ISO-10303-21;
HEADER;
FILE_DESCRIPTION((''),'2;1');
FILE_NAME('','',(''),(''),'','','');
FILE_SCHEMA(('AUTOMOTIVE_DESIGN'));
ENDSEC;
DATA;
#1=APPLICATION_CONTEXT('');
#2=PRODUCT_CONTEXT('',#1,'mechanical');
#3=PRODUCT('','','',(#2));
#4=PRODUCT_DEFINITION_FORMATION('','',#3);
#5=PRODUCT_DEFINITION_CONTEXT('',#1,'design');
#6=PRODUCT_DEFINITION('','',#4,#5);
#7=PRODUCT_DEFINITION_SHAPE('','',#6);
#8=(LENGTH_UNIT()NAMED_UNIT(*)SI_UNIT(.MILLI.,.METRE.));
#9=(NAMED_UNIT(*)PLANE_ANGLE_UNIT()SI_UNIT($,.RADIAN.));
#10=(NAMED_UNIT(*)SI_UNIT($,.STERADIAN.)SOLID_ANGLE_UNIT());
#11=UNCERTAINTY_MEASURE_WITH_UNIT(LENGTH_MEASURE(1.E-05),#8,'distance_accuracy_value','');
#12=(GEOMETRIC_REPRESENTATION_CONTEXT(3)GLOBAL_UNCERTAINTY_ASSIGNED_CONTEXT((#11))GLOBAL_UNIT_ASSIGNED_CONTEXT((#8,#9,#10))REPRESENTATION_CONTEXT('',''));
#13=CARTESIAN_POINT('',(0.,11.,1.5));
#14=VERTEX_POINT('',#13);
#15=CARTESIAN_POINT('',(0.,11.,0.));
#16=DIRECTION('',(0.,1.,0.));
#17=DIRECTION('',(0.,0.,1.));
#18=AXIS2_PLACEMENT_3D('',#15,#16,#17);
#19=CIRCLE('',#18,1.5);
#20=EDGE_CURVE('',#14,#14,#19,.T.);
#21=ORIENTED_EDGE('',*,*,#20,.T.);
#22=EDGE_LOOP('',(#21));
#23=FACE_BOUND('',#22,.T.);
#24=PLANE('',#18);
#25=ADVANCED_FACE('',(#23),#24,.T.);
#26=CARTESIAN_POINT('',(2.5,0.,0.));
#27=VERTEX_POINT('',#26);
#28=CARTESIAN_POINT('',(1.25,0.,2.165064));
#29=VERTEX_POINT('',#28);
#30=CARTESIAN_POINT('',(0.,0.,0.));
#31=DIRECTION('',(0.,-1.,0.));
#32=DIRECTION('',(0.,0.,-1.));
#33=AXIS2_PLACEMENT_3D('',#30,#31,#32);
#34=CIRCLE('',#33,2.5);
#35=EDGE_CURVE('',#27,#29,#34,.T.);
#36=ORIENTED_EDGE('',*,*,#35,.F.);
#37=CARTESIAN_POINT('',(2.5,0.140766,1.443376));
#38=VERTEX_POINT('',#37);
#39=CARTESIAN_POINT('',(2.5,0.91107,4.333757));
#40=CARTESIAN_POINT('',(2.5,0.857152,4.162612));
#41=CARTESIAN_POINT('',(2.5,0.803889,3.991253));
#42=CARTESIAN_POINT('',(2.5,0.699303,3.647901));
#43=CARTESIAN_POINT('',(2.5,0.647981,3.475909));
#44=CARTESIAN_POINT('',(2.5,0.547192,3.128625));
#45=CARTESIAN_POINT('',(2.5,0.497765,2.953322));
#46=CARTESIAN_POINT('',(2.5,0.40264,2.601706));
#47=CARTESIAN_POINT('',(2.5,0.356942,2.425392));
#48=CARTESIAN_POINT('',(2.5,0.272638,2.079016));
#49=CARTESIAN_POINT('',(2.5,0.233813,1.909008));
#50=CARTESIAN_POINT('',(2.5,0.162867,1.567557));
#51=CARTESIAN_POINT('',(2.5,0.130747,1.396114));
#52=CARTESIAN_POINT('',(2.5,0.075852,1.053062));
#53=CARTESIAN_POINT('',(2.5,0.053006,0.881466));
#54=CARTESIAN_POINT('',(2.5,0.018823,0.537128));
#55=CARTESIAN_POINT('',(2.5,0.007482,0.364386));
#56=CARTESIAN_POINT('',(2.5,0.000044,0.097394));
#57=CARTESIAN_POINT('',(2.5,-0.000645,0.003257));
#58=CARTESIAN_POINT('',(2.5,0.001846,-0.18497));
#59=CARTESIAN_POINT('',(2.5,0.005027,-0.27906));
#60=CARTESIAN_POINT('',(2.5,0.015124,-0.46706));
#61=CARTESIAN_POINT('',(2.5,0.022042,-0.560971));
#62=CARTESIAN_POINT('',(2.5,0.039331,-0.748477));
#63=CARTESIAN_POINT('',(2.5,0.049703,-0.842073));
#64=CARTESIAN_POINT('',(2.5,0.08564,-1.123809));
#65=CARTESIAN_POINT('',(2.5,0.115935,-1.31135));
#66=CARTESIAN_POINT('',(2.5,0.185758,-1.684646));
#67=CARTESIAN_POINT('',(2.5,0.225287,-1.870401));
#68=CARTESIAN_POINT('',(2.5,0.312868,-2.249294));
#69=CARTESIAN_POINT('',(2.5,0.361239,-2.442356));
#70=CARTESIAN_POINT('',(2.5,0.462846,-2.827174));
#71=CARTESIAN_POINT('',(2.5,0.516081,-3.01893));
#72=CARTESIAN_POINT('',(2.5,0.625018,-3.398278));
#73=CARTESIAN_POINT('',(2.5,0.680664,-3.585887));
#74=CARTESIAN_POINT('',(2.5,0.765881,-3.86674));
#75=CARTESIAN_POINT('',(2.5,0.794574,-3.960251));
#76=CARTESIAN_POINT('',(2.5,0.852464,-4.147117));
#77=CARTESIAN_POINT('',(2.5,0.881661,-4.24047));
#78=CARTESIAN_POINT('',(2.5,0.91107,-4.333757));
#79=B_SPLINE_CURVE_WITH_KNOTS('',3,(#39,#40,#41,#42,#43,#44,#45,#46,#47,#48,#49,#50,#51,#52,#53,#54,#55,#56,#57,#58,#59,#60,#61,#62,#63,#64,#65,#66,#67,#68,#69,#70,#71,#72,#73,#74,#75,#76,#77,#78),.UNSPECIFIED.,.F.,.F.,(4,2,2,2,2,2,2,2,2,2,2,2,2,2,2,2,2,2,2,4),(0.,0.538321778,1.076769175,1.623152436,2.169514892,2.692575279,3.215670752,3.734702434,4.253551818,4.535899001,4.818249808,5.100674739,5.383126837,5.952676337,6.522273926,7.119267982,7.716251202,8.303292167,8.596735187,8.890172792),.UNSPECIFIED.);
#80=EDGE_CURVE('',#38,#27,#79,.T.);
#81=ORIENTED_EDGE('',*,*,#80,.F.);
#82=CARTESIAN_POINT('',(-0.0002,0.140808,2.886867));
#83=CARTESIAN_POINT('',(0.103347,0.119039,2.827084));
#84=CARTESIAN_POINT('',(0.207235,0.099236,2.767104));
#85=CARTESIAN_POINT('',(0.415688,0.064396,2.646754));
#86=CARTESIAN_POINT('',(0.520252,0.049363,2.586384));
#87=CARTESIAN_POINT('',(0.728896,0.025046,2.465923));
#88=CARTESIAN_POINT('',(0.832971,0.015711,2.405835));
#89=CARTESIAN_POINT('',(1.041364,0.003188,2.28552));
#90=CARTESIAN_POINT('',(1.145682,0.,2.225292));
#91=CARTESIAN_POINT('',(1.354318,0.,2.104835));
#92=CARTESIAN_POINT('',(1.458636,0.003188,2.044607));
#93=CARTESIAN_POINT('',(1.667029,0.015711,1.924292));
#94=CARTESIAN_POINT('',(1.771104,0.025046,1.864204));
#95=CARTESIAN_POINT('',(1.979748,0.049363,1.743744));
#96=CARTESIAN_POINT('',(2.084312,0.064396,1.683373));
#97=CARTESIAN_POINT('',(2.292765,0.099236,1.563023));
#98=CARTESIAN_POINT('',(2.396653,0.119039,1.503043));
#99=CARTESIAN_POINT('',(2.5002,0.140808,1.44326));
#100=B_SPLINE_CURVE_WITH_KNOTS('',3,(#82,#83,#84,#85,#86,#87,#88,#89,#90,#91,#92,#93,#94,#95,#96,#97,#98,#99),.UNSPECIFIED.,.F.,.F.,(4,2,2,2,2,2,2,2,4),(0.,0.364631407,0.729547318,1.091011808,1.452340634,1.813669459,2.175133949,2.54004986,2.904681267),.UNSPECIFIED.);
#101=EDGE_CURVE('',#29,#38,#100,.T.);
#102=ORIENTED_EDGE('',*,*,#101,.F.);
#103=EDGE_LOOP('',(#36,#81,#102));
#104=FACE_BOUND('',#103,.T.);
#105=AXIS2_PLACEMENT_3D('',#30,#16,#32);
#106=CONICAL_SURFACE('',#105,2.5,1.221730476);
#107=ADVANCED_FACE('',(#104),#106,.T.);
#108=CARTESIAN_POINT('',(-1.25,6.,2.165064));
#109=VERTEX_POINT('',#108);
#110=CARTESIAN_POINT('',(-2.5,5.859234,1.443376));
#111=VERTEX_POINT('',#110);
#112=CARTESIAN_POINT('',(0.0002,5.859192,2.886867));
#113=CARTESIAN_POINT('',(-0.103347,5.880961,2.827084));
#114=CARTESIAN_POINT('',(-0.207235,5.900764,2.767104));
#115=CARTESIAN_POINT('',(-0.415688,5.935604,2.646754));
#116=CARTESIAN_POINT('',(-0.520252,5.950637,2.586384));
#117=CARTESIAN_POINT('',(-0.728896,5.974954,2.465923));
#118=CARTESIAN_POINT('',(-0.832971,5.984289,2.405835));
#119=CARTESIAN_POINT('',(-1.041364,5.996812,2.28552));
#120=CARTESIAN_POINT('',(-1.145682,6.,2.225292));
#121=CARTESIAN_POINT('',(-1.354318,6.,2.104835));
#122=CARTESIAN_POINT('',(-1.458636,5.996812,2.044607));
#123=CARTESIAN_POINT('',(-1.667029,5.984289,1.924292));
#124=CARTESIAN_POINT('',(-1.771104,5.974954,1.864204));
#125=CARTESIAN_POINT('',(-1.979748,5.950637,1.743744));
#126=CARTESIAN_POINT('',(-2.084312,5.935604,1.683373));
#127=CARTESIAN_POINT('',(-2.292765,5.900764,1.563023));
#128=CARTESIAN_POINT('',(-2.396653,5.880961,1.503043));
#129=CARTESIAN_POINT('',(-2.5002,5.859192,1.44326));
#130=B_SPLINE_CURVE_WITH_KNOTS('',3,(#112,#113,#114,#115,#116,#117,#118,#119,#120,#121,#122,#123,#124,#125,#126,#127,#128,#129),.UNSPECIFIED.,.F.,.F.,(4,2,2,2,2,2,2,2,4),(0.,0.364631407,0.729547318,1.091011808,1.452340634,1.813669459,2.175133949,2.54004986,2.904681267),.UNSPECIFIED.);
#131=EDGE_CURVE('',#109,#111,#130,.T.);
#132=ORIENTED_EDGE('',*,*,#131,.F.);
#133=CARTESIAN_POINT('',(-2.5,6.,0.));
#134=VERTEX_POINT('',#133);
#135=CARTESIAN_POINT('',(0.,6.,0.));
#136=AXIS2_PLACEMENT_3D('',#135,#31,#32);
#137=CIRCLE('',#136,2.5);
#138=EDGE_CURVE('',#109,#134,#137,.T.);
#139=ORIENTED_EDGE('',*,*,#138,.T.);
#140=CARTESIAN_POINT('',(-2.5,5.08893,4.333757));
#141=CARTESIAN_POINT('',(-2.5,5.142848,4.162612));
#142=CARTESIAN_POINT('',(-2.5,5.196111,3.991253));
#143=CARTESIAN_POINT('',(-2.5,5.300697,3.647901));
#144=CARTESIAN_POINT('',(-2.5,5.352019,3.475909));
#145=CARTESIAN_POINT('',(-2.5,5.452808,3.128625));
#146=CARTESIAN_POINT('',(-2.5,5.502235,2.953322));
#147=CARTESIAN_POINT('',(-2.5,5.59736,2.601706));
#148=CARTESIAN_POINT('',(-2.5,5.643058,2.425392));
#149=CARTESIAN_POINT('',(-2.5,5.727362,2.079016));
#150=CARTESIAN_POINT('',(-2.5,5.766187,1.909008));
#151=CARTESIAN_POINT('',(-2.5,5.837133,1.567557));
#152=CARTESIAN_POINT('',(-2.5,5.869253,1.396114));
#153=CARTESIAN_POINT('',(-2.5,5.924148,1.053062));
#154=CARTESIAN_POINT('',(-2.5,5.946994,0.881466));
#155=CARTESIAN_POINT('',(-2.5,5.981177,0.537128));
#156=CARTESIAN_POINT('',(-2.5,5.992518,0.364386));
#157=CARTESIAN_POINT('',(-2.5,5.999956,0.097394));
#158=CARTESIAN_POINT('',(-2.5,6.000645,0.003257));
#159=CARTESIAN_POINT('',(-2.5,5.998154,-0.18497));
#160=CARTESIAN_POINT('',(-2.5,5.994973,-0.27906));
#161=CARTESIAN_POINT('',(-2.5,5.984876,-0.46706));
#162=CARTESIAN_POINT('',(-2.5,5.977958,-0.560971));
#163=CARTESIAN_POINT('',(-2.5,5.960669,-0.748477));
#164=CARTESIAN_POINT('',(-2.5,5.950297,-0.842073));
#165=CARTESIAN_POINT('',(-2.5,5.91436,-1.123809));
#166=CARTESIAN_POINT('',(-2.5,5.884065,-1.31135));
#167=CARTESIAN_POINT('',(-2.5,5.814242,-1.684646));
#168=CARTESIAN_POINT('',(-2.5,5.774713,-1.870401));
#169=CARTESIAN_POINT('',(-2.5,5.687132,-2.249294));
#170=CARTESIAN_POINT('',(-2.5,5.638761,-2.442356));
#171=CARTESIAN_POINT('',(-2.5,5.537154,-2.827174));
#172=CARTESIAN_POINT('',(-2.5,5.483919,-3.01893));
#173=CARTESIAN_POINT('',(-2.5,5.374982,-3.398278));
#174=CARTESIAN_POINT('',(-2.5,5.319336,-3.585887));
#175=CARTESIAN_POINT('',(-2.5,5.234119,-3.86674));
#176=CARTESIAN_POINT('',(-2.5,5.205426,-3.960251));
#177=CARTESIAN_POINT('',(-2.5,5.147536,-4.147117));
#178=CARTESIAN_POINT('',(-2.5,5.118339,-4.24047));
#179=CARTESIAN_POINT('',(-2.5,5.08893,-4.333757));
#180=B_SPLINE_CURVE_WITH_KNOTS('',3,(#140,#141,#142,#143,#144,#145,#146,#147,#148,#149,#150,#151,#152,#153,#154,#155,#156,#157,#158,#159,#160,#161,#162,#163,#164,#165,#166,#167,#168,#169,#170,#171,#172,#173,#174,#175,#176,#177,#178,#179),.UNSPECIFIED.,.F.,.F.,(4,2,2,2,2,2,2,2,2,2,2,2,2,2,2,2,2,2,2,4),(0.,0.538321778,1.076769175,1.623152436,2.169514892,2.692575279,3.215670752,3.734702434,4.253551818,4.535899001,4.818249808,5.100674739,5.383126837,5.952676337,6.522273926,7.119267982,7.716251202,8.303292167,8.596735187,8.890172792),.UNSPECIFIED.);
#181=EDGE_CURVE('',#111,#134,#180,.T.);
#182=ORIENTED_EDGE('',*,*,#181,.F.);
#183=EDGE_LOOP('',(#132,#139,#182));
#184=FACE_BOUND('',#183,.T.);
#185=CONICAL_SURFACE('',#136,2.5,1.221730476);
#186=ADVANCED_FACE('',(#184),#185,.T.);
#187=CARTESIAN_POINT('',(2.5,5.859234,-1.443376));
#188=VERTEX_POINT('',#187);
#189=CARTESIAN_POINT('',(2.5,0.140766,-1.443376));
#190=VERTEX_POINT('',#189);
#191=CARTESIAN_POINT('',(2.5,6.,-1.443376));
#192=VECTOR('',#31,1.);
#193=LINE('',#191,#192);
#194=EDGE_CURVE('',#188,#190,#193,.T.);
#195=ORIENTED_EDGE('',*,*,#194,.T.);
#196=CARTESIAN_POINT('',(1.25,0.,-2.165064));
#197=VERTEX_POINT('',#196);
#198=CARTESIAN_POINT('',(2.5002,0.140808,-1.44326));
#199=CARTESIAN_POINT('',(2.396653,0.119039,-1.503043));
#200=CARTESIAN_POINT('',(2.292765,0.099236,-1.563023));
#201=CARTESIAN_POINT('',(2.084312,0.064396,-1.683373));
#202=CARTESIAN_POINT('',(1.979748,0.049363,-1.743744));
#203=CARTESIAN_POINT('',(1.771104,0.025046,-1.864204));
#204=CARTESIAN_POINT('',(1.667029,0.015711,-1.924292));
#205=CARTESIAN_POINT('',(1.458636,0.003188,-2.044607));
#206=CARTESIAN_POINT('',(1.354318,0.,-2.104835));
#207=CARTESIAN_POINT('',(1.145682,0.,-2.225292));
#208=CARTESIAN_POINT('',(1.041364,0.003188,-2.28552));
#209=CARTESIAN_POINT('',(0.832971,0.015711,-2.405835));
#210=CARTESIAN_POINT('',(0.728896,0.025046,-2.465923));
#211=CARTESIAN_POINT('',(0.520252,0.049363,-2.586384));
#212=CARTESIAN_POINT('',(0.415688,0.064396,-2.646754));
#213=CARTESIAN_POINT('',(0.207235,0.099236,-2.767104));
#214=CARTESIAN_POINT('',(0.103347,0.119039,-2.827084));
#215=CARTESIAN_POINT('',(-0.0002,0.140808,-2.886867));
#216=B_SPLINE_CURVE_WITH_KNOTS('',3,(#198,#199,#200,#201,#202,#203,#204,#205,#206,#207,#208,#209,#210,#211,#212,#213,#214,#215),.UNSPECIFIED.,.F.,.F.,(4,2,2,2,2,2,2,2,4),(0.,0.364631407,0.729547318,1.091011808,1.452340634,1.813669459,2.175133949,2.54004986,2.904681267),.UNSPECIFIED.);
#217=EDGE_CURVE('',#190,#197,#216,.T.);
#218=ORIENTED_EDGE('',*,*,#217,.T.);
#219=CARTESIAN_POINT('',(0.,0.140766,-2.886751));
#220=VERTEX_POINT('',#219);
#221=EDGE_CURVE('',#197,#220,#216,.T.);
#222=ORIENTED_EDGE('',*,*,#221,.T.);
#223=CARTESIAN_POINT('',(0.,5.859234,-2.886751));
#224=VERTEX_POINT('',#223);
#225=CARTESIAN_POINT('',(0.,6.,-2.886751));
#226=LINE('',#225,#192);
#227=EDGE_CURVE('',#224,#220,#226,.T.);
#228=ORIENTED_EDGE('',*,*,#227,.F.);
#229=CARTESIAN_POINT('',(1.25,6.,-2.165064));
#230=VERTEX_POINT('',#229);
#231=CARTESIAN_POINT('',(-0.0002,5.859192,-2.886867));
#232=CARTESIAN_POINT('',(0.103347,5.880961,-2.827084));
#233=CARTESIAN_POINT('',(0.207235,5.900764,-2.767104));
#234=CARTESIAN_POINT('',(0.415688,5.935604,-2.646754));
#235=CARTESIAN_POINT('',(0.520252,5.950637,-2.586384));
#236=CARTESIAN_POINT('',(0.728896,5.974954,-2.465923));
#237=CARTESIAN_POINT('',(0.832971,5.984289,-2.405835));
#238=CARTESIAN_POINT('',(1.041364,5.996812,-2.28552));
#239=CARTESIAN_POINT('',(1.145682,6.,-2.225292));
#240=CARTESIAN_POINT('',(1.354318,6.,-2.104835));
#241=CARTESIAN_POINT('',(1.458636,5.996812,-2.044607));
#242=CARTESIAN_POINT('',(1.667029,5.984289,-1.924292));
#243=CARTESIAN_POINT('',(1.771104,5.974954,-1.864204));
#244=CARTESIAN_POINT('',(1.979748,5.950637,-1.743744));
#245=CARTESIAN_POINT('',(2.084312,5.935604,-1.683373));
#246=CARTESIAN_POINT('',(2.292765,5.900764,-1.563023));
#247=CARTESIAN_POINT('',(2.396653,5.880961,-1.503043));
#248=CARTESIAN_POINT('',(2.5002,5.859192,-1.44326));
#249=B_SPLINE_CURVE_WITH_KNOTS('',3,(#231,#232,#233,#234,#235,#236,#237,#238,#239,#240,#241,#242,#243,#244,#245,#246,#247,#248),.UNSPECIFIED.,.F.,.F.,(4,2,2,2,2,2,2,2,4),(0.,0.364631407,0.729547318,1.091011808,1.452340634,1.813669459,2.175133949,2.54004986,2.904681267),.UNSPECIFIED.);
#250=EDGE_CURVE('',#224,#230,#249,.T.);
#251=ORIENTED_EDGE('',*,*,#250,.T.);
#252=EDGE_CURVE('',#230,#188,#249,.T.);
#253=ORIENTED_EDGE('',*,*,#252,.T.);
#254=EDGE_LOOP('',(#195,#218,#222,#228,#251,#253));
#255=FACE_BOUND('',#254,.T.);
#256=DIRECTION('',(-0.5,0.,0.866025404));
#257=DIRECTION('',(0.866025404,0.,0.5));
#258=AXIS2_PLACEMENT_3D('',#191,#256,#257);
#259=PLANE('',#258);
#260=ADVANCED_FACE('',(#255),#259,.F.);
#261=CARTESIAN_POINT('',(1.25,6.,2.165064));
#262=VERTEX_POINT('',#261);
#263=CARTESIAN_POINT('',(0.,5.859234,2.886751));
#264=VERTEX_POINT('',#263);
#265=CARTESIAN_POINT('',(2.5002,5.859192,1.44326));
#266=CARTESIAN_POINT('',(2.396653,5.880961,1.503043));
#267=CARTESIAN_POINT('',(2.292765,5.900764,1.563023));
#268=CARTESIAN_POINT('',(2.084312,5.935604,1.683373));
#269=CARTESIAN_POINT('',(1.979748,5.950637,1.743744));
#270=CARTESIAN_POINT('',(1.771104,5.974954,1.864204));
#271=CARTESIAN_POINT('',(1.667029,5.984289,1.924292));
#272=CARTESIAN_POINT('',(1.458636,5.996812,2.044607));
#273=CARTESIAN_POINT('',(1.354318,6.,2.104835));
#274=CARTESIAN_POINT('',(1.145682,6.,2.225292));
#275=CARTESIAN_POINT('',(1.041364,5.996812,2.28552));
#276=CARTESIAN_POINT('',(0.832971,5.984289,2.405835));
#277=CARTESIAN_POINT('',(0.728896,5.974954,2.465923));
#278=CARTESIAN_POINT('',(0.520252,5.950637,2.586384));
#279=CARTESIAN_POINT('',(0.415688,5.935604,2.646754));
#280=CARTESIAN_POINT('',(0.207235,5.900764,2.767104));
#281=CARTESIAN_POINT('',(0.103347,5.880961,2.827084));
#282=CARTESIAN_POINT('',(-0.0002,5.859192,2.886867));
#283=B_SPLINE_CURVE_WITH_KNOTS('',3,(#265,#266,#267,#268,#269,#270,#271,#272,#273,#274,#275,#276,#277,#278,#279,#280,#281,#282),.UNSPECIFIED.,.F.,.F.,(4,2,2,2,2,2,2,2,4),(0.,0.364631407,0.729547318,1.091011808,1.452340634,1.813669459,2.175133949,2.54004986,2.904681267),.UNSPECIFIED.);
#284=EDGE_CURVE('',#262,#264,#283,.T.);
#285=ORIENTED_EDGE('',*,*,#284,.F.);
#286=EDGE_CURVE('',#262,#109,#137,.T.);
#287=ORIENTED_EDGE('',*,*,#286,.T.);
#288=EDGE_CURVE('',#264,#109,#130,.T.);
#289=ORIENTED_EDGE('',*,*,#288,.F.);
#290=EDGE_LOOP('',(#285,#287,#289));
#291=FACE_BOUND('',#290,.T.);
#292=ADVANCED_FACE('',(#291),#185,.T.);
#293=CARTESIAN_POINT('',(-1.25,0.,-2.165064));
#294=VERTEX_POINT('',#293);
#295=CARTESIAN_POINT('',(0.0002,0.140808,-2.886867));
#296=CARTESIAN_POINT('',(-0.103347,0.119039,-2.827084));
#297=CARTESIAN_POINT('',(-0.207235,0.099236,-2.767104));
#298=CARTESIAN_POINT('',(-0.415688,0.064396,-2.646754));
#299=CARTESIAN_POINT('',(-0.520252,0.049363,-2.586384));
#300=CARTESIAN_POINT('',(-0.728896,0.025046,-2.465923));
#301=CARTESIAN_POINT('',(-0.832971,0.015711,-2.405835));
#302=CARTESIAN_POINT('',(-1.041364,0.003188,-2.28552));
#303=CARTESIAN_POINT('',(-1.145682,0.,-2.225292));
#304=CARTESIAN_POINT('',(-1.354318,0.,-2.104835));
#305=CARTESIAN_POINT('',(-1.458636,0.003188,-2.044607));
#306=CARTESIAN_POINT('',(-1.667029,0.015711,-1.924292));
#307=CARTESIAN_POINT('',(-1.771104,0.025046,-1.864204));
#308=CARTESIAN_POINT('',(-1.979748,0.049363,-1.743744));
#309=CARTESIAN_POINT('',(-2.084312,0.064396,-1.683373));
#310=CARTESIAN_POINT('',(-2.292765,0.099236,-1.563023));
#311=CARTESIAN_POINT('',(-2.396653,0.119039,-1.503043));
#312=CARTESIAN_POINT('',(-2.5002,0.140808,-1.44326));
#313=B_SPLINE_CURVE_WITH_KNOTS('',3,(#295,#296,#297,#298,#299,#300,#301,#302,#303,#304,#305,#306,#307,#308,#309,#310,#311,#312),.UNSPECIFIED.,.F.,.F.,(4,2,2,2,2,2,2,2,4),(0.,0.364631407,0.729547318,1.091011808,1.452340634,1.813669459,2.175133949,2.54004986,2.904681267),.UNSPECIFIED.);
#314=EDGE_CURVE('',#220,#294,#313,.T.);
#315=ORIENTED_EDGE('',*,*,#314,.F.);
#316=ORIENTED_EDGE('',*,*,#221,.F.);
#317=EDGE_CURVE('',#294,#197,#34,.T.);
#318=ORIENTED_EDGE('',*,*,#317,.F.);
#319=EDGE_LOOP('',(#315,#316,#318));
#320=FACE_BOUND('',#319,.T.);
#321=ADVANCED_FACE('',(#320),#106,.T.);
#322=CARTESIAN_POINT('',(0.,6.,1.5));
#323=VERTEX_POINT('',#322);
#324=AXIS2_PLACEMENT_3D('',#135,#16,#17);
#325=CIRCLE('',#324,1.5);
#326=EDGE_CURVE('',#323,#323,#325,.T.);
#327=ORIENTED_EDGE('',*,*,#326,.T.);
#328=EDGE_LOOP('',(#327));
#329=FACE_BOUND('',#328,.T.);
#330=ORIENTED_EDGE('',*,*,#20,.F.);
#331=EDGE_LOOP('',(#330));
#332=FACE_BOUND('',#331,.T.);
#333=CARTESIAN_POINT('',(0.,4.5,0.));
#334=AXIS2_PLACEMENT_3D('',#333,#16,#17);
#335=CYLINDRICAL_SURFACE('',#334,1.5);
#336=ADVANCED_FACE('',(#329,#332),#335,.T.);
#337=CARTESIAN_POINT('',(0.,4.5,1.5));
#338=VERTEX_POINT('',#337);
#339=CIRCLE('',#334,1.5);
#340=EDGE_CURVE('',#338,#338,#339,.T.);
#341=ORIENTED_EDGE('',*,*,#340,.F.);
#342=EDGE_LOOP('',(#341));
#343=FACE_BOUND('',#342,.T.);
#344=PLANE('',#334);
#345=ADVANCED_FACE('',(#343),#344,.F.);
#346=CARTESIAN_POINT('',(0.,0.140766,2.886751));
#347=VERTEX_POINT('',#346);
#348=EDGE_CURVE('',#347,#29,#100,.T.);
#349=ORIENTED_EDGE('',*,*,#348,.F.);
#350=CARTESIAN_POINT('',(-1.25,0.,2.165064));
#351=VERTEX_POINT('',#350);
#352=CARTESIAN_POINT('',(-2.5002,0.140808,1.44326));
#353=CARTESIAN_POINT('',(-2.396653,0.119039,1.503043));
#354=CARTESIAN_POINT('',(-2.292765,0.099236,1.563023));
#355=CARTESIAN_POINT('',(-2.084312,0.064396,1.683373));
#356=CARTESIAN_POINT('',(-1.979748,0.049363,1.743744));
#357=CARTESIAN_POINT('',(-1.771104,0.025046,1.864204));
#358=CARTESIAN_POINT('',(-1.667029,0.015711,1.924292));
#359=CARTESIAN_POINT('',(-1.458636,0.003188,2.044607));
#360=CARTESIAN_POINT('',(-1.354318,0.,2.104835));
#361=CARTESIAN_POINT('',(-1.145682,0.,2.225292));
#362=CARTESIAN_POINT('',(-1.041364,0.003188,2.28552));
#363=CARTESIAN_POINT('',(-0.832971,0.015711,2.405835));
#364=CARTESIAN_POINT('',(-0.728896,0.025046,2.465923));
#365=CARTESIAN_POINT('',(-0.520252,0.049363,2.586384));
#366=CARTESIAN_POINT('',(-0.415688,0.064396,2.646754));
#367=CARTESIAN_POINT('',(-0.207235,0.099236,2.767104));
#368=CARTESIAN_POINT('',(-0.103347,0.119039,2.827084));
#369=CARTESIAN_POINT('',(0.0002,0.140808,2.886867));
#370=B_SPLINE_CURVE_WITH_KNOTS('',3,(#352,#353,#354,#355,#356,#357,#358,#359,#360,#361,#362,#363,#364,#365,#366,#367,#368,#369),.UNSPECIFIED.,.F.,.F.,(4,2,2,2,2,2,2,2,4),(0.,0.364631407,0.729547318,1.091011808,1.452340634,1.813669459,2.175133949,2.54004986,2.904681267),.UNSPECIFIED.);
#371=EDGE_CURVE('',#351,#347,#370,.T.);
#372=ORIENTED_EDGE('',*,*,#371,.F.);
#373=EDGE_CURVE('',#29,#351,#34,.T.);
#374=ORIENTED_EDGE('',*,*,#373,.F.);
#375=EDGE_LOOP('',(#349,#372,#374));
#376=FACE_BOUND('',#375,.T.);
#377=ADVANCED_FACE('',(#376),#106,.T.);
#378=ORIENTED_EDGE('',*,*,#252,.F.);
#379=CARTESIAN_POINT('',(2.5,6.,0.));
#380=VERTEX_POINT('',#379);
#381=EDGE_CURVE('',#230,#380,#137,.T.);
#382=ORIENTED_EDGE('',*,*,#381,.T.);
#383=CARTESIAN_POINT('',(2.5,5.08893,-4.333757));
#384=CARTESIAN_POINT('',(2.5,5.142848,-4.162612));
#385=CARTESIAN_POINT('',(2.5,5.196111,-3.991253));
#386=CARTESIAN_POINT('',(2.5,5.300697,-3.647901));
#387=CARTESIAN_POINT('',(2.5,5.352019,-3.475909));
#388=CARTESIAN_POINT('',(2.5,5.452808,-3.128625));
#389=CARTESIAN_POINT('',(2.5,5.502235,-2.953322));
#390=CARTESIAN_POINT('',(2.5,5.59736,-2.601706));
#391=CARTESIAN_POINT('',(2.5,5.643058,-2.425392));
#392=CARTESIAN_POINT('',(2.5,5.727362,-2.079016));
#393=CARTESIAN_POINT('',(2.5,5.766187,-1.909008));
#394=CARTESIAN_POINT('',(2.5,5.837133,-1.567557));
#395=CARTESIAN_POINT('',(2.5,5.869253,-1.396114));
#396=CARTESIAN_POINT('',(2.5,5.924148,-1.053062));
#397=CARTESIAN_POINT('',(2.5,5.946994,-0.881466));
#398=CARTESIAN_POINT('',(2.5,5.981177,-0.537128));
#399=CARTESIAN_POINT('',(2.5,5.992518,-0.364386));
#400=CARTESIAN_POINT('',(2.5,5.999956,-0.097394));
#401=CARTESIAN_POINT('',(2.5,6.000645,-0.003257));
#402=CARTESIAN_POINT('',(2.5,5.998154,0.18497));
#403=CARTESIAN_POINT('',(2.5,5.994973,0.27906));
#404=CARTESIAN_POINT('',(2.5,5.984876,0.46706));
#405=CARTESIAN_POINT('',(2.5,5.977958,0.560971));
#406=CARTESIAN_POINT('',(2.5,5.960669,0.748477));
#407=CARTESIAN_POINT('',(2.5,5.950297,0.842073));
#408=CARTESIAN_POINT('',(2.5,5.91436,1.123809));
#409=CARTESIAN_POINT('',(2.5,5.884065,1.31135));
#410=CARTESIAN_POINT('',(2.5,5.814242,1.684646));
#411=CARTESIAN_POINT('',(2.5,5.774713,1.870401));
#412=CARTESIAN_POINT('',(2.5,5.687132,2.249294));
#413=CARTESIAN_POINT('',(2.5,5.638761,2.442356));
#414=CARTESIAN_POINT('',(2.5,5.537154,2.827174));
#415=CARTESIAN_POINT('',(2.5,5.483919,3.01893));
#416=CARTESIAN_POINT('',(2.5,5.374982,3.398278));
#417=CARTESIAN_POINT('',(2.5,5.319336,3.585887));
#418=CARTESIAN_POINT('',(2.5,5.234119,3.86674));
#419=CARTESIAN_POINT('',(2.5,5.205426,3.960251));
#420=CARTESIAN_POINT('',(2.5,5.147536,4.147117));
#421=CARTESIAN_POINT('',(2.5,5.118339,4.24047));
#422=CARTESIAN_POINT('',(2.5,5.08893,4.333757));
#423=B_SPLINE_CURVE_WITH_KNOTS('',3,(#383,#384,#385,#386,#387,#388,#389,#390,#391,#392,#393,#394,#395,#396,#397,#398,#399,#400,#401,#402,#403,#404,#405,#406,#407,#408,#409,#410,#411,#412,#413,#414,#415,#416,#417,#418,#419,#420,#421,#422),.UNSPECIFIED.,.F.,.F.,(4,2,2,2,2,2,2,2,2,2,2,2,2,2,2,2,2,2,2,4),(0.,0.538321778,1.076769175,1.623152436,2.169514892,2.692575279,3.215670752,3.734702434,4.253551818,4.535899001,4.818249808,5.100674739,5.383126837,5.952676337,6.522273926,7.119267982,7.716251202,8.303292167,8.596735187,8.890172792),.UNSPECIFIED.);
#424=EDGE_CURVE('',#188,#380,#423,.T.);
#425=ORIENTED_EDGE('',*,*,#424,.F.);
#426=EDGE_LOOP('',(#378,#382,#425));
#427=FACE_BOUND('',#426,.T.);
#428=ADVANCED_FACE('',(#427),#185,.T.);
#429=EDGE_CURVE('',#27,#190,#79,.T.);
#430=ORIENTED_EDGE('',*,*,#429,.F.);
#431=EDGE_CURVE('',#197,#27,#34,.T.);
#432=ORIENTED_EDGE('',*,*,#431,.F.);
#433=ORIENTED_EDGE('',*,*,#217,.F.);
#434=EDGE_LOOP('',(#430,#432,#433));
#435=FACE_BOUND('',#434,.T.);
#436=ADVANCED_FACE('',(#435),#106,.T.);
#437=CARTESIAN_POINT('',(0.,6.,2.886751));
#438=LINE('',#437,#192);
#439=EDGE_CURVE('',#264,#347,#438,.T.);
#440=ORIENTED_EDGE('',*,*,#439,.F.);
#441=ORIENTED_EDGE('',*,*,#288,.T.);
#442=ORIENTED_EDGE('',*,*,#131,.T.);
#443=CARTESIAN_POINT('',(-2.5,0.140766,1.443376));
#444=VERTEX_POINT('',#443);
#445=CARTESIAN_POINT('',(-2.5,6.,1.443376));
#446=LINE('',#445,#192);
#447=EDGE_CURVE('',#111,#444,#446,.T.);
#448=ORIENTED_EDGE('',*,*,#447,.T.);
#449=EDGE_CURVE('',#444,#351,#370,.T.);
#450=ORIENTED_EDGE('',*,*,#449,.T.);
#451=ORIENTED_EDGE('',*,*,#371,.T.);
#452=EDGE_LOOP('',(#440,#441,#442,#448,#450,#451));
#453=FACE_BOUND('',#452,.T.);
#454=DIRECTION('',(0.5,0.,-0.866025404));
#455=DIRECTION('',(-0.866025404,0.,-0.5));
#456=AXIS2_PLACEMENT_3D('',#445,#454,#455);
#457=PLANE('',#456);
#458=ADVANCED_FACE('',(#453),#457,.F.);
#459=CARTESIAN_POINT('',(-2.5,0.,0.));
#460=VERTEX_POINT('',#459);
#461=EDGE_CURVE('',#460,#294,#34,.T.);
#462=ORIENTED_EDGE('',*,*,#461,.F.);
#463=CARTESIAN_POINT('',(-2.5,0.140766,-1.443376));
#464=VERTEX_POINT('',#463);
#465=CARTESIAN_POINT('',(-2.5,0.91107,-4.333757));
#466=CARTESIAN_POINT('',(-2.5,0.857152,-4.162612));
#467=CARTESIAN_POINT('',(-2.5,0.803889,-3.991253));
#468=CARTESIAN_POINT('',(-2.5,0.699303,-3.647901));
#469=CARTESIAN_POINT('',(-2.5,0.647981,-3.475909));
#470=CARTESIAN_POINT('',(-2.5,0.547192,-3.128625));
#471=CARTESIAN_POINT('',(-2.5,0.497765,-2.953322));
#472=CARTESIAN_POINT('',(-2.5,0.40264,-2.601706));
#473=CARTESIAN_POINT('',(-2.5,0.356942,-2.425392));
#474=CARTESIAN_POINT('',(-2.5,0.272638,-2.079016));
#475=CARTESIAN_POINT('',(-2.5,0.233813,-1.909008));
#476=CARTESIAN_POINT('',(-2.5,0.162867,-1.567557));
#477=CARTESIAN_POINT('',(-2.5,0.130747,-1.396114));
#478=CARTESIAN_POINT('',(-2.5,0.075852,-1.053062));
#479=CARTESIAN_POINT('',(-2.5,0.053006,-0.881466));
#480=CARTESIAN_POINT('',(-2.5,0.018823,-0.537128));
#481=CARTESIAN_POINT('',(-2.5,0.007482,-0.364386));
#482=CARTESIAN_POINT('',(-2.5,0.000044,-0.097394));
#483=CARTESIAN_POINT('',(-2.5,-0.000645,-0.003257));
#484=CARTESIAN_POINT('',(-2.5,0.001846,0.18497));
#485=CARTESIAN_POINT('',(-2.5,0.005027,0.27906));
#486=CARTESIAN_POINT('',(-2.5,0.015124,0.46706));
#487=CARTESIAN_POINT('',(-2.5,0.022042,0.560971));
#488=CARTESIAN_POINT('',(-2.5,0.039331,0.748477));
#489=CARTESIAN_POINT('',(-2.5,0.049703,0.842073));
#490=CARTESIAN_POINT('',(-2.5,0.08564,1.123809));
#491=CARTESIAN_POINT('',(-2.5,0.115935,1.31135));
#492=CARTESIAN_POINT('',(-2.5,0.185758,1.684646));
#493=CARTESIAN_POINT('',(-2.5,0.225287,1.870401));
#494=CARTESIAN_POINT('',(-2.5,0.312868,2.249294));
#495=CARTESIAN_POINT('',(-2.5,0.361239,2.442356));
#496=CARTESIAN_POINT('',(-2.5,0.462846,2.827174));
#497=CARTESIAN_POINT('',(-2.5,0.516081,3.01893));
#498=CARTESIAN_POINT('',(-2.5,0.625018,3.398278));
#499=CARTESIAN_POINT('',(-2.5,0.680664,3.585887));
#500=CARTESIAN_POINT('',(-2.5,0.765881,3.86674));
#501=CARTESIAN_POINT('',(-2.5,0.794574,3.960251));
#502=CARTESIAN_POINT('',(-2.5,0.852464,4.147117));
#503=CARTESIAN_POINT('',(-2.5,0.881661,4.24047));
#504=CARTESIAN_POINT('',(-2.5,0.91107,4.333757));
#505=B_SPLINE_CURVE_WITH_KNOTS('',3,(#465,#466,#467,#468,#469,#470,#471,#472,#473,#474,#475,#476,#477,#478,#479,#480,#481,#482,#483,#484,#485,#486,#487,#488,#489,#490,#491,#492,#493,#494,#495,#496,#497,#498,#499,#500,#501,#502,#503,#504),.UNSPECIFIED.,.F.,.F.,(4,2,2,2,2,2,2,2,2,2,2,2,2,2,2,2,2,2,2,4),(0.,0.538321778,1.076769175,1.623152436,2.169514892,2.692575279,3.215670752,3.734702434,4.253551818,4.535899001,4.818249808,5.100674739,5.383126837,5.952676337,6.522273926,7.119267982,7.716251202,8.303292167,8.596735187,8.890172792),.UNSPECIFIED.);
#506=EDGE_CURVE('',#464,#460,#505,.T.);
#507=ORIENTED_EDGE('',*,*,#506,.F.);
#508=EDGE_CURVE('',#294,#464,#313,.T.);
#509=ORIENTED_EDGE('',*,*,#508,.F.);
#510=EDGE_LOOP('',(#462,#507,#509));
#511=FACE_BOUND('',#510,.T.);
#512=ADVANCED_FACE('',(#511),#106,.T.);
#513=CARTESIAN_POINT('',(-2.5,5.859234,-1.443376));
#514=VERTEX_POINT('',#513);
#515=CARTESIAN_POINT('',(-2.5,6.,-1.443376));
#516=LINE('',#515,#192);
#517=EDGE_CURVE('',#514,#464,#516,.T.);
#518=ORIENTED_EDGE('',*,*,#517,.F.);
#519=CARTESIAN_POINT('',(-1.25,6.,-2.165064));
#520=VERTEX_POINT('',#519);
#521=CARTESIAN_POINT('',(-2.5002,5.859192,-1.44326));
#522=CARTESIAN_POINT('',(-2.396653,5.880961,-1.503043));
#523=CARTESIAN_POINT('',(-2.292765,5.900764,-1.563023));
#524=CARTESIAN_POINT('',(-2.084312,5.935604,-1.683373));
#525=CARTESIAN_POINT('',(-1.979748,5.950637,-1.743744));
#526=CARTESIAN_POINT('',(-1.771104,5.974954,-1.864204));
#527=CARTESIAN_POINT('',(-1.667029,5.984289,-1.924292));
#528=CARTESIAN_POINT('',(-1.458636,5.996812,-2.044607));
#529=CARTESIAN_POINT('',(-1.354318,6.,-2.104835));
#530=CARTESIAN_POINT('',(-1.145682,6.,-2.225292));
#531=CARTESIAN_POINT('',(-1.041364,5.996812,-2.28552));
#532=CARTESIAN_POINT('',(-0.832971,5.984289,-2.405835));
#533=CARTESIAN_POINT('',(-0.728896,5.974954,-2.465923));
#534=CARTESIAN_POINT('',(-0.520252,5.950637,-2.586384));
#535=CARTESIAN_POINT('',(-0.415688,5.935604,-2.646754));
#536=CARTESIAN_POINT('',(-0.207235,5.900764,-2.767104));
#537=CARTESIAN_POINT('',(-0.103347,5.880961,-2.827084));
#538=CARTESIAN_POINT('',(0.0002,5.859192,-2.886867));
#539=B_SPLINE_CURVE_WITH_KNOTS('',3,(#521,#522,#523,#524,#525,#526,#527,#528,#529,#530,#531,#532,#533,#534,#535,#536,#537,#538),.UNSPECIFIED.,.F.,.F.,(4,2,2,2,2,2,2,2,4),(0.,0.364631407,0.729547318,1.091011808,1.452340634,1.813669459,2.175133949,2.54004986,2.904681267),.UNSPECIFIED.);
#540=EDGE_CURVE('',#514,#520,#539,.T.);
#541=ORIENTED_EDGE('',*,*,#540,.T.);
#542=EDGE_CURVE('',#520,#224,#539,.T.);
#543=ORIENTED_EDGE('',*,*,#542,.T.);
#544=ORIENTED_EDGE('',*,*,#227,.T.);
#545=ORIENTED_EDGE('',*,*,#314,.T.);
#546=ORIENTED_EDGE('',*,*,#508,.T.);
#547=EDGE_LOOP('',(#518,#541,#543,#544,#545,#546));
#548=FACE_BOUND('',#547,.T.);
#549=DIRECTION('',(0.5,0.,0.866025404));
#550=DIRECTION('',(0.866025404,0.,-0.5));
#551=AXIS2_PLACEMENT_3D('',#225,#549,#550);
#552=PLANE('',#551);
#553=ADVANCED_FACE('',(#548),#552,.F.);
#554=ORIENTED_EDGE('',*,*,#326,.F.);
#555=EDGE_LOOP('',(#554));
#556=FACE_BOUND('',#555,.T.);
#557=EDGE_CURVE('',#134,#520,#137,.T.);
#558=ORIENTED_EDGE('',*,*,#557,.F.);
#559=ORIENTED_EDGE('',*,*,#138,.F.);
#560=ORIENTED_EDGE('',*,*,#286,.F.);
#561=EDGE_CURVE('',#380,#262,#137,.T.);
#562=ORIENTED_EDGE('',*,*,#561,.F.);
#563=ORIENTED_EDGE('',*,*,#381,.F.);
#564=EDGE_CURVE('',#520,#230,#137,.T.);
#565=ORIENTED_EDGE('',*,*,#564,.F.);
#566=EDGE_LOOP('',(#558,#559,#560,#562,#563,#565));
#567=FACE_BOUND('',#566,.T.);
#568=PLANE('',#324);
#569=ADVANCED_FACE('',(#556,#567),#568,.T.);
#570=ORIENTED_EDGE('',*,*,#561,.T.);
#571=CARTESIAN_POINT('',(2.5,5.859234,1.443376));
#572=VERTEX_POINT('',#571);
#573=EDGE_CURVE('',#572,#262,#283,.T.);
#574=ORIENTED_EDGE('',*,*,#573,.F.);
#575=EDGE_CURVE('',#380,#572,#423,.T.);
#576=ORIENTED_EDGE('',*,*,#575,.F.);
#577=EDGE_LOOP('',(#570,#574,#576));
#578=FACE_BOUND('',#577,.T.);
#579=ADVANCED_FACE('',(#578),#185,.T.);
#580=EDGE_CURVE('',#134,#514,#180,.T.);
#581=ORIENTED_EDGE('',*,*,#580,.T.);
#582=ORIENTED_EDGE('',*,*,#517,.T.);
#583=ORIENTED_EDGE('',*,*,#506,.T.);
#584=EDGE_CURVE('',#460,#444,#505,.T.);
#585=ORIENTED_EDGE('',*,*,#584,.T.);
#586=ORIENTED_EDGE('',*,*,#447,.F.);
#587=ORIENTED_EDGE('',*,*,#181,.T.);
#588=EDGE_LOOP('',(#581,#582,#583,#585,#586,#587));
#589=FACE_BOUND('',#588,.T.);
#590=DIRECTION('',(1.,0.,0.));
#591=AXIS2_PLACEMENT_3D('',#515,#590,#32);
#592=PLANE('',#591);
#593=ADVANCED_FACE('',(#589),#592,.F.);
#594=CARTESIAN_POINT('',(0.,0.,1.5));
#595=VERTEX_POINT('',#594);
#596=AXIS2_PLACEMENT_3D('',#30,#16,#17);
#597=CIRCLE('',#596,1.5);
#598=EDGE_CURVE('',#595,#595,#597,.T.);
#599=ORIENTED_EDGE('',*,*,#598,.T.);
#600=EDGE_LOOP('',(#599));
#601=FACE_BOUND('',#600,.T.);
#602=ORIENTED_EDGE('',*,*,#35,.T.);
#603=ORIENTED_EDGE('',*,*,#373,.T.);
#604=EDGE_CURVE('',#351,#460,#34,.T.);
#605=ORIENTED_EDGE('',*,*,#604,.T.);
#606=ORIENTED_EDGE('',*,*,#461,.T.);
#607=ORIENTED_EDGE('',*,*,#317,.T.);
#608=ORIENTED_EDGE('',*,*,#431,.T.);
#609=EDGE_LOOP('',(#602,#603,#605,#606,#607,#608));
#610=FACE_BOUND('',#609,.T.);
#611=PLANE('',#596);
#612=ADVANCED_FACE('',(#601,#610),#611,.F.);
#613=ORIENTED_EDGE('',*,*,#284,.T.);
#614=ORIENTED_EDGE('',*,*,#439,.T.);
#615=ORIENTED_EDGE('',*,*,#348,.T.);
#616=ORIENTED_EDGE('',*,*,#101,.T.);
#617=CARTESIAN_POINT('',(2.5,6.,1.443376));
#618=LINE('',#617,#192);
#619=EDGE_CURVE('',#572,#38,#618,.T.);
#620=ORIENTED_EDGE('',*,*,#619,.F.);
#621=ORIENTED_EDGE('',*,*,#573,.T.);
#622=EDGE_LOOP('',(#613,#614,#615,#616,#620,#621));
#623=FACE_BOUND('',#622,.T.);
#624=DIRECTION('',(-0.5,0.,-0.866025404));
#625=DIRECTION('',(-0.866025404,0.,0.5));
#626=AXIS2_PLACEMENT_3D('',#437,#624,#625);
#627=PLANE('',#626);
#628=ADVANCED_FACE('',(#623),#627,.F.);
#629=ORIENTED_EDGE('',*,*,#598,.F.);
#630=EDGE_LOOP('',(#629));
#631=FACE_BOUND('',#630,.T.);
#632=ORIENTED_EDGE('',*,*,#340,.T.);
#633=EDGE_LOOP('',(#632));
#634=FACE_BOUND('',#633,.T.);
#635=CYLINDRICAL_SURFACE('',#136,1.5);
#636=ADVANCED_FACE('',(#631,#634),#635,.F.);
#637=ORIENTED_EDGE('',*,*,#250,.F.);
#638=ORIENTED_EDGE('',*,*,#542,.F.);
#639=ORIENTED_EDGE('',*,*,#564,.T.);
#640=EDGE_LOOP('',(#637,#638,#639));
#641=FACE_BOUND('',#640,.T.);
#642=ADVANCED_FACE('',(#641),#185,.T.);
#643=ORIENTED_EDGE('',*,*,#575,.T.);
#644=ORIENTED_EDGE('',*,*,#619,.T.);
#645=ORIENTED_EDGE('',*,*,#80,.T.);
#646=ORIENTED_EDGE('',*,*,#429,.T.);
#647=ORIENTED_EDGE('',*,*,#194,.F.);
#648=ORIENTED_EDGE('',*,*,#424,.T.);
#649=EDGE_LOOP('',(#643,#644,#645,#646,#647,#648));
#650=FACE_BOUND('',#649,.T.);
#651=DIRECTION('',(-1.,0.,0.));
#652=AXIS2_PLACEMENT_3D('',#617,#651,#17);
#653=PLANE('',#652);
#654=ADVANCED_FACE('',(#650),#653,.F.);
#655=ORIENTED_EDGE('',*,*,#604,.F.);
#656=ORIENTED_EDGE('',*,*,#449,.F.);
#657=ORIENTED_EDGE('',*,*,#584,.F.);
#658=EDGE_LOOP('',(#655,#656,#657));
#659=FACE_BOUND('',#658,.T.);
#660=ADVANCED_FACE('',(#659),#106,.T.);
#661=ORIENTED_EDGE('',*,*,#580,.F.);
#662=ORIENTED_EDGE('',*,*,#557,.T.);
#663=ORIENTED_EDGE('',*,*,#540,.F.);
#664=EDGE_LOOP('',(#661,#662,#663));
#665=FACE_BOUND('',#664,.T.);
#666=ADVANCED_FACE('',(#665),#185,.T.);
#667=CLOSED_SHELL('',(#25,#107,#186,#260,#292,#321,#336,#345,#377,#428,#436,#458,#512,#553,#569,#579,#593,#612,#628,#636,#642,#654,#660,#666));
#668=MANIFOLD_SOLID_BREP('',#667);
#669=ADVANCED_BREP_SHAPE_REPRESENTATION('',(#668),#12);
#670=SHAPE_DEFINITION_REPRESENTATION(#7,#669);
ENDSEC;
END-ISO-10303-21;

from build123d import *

# Parameters (mm, degrees)
SKETCH1_R                = 1.5
BOSS_EXTRUDE1_DEPTH      = 6
BOSS_EXTRUDE2_DEPTH      = 5
BOSS_EXTRUDE2_DEPTH_BACK = 1.5
SKETCH7_R                = 1.5


with BuildPart() as part:
    # Sketch1 → Boss-Extrude1 (new body)
    with BuildSketch(Plane(origin=(0, 0, 0), x_dir=(1, 0, 0), z_dir=(0, 1, 0))):
        Polygon((0, 2.886751346), (-2.5, 1.443375673), (-2.5, -1.443375673), (0, -2.886751346), (2.5, -1.443375673), (2.5, 1.443375673), align=None)
        with Locations(Location((0, 0, 0), (0, 0, 270))):
            Circle(SKETCH1_R, mode=Mode.SUBTRACT)
    extrude(amount=BOSS_EXTRUDE1_DEPTH)

    # Sketch6 → Cut-Revolve1 (revolve, cut)
    with BuildSketch(Plane.ZY):
        Polygon((2.5, 6), (2.886751346, 6), (2.886751346, 5.859234022), align=None)
    cut_revolve1 = revolve(axis=Axis((0, 6, 0), (0, 1, 0)), mode=Mode.SUBTRACT)

    # Mirror1: Cut-Revolve1 across plane
    add(cut_revolve1.mirror(Plane.ZX.offset(3)), mode=Mode.SUBTRACT)

    # Sketch7 → Boss-Extrude2 (add, two sides: drawn at the far end of the back side and taken through both)
    with BuildSketch(Plane(origin=(0, 6, 0), x_dir=(1, 0, 0), z_dir=(0, 1, 0)).offset(-BOSS_EXTRUDE2_DEPTH_BACK)):
        with Locations(Location((0, 0, 0), (0, 0, 270))):
            Circle(SKETCH7_R)
    extrude(amount=BOSS_EXTRUDE2_DEPTH + BOSS_EXTRUDE2_DEPTH_BACK)


solid = part.part
